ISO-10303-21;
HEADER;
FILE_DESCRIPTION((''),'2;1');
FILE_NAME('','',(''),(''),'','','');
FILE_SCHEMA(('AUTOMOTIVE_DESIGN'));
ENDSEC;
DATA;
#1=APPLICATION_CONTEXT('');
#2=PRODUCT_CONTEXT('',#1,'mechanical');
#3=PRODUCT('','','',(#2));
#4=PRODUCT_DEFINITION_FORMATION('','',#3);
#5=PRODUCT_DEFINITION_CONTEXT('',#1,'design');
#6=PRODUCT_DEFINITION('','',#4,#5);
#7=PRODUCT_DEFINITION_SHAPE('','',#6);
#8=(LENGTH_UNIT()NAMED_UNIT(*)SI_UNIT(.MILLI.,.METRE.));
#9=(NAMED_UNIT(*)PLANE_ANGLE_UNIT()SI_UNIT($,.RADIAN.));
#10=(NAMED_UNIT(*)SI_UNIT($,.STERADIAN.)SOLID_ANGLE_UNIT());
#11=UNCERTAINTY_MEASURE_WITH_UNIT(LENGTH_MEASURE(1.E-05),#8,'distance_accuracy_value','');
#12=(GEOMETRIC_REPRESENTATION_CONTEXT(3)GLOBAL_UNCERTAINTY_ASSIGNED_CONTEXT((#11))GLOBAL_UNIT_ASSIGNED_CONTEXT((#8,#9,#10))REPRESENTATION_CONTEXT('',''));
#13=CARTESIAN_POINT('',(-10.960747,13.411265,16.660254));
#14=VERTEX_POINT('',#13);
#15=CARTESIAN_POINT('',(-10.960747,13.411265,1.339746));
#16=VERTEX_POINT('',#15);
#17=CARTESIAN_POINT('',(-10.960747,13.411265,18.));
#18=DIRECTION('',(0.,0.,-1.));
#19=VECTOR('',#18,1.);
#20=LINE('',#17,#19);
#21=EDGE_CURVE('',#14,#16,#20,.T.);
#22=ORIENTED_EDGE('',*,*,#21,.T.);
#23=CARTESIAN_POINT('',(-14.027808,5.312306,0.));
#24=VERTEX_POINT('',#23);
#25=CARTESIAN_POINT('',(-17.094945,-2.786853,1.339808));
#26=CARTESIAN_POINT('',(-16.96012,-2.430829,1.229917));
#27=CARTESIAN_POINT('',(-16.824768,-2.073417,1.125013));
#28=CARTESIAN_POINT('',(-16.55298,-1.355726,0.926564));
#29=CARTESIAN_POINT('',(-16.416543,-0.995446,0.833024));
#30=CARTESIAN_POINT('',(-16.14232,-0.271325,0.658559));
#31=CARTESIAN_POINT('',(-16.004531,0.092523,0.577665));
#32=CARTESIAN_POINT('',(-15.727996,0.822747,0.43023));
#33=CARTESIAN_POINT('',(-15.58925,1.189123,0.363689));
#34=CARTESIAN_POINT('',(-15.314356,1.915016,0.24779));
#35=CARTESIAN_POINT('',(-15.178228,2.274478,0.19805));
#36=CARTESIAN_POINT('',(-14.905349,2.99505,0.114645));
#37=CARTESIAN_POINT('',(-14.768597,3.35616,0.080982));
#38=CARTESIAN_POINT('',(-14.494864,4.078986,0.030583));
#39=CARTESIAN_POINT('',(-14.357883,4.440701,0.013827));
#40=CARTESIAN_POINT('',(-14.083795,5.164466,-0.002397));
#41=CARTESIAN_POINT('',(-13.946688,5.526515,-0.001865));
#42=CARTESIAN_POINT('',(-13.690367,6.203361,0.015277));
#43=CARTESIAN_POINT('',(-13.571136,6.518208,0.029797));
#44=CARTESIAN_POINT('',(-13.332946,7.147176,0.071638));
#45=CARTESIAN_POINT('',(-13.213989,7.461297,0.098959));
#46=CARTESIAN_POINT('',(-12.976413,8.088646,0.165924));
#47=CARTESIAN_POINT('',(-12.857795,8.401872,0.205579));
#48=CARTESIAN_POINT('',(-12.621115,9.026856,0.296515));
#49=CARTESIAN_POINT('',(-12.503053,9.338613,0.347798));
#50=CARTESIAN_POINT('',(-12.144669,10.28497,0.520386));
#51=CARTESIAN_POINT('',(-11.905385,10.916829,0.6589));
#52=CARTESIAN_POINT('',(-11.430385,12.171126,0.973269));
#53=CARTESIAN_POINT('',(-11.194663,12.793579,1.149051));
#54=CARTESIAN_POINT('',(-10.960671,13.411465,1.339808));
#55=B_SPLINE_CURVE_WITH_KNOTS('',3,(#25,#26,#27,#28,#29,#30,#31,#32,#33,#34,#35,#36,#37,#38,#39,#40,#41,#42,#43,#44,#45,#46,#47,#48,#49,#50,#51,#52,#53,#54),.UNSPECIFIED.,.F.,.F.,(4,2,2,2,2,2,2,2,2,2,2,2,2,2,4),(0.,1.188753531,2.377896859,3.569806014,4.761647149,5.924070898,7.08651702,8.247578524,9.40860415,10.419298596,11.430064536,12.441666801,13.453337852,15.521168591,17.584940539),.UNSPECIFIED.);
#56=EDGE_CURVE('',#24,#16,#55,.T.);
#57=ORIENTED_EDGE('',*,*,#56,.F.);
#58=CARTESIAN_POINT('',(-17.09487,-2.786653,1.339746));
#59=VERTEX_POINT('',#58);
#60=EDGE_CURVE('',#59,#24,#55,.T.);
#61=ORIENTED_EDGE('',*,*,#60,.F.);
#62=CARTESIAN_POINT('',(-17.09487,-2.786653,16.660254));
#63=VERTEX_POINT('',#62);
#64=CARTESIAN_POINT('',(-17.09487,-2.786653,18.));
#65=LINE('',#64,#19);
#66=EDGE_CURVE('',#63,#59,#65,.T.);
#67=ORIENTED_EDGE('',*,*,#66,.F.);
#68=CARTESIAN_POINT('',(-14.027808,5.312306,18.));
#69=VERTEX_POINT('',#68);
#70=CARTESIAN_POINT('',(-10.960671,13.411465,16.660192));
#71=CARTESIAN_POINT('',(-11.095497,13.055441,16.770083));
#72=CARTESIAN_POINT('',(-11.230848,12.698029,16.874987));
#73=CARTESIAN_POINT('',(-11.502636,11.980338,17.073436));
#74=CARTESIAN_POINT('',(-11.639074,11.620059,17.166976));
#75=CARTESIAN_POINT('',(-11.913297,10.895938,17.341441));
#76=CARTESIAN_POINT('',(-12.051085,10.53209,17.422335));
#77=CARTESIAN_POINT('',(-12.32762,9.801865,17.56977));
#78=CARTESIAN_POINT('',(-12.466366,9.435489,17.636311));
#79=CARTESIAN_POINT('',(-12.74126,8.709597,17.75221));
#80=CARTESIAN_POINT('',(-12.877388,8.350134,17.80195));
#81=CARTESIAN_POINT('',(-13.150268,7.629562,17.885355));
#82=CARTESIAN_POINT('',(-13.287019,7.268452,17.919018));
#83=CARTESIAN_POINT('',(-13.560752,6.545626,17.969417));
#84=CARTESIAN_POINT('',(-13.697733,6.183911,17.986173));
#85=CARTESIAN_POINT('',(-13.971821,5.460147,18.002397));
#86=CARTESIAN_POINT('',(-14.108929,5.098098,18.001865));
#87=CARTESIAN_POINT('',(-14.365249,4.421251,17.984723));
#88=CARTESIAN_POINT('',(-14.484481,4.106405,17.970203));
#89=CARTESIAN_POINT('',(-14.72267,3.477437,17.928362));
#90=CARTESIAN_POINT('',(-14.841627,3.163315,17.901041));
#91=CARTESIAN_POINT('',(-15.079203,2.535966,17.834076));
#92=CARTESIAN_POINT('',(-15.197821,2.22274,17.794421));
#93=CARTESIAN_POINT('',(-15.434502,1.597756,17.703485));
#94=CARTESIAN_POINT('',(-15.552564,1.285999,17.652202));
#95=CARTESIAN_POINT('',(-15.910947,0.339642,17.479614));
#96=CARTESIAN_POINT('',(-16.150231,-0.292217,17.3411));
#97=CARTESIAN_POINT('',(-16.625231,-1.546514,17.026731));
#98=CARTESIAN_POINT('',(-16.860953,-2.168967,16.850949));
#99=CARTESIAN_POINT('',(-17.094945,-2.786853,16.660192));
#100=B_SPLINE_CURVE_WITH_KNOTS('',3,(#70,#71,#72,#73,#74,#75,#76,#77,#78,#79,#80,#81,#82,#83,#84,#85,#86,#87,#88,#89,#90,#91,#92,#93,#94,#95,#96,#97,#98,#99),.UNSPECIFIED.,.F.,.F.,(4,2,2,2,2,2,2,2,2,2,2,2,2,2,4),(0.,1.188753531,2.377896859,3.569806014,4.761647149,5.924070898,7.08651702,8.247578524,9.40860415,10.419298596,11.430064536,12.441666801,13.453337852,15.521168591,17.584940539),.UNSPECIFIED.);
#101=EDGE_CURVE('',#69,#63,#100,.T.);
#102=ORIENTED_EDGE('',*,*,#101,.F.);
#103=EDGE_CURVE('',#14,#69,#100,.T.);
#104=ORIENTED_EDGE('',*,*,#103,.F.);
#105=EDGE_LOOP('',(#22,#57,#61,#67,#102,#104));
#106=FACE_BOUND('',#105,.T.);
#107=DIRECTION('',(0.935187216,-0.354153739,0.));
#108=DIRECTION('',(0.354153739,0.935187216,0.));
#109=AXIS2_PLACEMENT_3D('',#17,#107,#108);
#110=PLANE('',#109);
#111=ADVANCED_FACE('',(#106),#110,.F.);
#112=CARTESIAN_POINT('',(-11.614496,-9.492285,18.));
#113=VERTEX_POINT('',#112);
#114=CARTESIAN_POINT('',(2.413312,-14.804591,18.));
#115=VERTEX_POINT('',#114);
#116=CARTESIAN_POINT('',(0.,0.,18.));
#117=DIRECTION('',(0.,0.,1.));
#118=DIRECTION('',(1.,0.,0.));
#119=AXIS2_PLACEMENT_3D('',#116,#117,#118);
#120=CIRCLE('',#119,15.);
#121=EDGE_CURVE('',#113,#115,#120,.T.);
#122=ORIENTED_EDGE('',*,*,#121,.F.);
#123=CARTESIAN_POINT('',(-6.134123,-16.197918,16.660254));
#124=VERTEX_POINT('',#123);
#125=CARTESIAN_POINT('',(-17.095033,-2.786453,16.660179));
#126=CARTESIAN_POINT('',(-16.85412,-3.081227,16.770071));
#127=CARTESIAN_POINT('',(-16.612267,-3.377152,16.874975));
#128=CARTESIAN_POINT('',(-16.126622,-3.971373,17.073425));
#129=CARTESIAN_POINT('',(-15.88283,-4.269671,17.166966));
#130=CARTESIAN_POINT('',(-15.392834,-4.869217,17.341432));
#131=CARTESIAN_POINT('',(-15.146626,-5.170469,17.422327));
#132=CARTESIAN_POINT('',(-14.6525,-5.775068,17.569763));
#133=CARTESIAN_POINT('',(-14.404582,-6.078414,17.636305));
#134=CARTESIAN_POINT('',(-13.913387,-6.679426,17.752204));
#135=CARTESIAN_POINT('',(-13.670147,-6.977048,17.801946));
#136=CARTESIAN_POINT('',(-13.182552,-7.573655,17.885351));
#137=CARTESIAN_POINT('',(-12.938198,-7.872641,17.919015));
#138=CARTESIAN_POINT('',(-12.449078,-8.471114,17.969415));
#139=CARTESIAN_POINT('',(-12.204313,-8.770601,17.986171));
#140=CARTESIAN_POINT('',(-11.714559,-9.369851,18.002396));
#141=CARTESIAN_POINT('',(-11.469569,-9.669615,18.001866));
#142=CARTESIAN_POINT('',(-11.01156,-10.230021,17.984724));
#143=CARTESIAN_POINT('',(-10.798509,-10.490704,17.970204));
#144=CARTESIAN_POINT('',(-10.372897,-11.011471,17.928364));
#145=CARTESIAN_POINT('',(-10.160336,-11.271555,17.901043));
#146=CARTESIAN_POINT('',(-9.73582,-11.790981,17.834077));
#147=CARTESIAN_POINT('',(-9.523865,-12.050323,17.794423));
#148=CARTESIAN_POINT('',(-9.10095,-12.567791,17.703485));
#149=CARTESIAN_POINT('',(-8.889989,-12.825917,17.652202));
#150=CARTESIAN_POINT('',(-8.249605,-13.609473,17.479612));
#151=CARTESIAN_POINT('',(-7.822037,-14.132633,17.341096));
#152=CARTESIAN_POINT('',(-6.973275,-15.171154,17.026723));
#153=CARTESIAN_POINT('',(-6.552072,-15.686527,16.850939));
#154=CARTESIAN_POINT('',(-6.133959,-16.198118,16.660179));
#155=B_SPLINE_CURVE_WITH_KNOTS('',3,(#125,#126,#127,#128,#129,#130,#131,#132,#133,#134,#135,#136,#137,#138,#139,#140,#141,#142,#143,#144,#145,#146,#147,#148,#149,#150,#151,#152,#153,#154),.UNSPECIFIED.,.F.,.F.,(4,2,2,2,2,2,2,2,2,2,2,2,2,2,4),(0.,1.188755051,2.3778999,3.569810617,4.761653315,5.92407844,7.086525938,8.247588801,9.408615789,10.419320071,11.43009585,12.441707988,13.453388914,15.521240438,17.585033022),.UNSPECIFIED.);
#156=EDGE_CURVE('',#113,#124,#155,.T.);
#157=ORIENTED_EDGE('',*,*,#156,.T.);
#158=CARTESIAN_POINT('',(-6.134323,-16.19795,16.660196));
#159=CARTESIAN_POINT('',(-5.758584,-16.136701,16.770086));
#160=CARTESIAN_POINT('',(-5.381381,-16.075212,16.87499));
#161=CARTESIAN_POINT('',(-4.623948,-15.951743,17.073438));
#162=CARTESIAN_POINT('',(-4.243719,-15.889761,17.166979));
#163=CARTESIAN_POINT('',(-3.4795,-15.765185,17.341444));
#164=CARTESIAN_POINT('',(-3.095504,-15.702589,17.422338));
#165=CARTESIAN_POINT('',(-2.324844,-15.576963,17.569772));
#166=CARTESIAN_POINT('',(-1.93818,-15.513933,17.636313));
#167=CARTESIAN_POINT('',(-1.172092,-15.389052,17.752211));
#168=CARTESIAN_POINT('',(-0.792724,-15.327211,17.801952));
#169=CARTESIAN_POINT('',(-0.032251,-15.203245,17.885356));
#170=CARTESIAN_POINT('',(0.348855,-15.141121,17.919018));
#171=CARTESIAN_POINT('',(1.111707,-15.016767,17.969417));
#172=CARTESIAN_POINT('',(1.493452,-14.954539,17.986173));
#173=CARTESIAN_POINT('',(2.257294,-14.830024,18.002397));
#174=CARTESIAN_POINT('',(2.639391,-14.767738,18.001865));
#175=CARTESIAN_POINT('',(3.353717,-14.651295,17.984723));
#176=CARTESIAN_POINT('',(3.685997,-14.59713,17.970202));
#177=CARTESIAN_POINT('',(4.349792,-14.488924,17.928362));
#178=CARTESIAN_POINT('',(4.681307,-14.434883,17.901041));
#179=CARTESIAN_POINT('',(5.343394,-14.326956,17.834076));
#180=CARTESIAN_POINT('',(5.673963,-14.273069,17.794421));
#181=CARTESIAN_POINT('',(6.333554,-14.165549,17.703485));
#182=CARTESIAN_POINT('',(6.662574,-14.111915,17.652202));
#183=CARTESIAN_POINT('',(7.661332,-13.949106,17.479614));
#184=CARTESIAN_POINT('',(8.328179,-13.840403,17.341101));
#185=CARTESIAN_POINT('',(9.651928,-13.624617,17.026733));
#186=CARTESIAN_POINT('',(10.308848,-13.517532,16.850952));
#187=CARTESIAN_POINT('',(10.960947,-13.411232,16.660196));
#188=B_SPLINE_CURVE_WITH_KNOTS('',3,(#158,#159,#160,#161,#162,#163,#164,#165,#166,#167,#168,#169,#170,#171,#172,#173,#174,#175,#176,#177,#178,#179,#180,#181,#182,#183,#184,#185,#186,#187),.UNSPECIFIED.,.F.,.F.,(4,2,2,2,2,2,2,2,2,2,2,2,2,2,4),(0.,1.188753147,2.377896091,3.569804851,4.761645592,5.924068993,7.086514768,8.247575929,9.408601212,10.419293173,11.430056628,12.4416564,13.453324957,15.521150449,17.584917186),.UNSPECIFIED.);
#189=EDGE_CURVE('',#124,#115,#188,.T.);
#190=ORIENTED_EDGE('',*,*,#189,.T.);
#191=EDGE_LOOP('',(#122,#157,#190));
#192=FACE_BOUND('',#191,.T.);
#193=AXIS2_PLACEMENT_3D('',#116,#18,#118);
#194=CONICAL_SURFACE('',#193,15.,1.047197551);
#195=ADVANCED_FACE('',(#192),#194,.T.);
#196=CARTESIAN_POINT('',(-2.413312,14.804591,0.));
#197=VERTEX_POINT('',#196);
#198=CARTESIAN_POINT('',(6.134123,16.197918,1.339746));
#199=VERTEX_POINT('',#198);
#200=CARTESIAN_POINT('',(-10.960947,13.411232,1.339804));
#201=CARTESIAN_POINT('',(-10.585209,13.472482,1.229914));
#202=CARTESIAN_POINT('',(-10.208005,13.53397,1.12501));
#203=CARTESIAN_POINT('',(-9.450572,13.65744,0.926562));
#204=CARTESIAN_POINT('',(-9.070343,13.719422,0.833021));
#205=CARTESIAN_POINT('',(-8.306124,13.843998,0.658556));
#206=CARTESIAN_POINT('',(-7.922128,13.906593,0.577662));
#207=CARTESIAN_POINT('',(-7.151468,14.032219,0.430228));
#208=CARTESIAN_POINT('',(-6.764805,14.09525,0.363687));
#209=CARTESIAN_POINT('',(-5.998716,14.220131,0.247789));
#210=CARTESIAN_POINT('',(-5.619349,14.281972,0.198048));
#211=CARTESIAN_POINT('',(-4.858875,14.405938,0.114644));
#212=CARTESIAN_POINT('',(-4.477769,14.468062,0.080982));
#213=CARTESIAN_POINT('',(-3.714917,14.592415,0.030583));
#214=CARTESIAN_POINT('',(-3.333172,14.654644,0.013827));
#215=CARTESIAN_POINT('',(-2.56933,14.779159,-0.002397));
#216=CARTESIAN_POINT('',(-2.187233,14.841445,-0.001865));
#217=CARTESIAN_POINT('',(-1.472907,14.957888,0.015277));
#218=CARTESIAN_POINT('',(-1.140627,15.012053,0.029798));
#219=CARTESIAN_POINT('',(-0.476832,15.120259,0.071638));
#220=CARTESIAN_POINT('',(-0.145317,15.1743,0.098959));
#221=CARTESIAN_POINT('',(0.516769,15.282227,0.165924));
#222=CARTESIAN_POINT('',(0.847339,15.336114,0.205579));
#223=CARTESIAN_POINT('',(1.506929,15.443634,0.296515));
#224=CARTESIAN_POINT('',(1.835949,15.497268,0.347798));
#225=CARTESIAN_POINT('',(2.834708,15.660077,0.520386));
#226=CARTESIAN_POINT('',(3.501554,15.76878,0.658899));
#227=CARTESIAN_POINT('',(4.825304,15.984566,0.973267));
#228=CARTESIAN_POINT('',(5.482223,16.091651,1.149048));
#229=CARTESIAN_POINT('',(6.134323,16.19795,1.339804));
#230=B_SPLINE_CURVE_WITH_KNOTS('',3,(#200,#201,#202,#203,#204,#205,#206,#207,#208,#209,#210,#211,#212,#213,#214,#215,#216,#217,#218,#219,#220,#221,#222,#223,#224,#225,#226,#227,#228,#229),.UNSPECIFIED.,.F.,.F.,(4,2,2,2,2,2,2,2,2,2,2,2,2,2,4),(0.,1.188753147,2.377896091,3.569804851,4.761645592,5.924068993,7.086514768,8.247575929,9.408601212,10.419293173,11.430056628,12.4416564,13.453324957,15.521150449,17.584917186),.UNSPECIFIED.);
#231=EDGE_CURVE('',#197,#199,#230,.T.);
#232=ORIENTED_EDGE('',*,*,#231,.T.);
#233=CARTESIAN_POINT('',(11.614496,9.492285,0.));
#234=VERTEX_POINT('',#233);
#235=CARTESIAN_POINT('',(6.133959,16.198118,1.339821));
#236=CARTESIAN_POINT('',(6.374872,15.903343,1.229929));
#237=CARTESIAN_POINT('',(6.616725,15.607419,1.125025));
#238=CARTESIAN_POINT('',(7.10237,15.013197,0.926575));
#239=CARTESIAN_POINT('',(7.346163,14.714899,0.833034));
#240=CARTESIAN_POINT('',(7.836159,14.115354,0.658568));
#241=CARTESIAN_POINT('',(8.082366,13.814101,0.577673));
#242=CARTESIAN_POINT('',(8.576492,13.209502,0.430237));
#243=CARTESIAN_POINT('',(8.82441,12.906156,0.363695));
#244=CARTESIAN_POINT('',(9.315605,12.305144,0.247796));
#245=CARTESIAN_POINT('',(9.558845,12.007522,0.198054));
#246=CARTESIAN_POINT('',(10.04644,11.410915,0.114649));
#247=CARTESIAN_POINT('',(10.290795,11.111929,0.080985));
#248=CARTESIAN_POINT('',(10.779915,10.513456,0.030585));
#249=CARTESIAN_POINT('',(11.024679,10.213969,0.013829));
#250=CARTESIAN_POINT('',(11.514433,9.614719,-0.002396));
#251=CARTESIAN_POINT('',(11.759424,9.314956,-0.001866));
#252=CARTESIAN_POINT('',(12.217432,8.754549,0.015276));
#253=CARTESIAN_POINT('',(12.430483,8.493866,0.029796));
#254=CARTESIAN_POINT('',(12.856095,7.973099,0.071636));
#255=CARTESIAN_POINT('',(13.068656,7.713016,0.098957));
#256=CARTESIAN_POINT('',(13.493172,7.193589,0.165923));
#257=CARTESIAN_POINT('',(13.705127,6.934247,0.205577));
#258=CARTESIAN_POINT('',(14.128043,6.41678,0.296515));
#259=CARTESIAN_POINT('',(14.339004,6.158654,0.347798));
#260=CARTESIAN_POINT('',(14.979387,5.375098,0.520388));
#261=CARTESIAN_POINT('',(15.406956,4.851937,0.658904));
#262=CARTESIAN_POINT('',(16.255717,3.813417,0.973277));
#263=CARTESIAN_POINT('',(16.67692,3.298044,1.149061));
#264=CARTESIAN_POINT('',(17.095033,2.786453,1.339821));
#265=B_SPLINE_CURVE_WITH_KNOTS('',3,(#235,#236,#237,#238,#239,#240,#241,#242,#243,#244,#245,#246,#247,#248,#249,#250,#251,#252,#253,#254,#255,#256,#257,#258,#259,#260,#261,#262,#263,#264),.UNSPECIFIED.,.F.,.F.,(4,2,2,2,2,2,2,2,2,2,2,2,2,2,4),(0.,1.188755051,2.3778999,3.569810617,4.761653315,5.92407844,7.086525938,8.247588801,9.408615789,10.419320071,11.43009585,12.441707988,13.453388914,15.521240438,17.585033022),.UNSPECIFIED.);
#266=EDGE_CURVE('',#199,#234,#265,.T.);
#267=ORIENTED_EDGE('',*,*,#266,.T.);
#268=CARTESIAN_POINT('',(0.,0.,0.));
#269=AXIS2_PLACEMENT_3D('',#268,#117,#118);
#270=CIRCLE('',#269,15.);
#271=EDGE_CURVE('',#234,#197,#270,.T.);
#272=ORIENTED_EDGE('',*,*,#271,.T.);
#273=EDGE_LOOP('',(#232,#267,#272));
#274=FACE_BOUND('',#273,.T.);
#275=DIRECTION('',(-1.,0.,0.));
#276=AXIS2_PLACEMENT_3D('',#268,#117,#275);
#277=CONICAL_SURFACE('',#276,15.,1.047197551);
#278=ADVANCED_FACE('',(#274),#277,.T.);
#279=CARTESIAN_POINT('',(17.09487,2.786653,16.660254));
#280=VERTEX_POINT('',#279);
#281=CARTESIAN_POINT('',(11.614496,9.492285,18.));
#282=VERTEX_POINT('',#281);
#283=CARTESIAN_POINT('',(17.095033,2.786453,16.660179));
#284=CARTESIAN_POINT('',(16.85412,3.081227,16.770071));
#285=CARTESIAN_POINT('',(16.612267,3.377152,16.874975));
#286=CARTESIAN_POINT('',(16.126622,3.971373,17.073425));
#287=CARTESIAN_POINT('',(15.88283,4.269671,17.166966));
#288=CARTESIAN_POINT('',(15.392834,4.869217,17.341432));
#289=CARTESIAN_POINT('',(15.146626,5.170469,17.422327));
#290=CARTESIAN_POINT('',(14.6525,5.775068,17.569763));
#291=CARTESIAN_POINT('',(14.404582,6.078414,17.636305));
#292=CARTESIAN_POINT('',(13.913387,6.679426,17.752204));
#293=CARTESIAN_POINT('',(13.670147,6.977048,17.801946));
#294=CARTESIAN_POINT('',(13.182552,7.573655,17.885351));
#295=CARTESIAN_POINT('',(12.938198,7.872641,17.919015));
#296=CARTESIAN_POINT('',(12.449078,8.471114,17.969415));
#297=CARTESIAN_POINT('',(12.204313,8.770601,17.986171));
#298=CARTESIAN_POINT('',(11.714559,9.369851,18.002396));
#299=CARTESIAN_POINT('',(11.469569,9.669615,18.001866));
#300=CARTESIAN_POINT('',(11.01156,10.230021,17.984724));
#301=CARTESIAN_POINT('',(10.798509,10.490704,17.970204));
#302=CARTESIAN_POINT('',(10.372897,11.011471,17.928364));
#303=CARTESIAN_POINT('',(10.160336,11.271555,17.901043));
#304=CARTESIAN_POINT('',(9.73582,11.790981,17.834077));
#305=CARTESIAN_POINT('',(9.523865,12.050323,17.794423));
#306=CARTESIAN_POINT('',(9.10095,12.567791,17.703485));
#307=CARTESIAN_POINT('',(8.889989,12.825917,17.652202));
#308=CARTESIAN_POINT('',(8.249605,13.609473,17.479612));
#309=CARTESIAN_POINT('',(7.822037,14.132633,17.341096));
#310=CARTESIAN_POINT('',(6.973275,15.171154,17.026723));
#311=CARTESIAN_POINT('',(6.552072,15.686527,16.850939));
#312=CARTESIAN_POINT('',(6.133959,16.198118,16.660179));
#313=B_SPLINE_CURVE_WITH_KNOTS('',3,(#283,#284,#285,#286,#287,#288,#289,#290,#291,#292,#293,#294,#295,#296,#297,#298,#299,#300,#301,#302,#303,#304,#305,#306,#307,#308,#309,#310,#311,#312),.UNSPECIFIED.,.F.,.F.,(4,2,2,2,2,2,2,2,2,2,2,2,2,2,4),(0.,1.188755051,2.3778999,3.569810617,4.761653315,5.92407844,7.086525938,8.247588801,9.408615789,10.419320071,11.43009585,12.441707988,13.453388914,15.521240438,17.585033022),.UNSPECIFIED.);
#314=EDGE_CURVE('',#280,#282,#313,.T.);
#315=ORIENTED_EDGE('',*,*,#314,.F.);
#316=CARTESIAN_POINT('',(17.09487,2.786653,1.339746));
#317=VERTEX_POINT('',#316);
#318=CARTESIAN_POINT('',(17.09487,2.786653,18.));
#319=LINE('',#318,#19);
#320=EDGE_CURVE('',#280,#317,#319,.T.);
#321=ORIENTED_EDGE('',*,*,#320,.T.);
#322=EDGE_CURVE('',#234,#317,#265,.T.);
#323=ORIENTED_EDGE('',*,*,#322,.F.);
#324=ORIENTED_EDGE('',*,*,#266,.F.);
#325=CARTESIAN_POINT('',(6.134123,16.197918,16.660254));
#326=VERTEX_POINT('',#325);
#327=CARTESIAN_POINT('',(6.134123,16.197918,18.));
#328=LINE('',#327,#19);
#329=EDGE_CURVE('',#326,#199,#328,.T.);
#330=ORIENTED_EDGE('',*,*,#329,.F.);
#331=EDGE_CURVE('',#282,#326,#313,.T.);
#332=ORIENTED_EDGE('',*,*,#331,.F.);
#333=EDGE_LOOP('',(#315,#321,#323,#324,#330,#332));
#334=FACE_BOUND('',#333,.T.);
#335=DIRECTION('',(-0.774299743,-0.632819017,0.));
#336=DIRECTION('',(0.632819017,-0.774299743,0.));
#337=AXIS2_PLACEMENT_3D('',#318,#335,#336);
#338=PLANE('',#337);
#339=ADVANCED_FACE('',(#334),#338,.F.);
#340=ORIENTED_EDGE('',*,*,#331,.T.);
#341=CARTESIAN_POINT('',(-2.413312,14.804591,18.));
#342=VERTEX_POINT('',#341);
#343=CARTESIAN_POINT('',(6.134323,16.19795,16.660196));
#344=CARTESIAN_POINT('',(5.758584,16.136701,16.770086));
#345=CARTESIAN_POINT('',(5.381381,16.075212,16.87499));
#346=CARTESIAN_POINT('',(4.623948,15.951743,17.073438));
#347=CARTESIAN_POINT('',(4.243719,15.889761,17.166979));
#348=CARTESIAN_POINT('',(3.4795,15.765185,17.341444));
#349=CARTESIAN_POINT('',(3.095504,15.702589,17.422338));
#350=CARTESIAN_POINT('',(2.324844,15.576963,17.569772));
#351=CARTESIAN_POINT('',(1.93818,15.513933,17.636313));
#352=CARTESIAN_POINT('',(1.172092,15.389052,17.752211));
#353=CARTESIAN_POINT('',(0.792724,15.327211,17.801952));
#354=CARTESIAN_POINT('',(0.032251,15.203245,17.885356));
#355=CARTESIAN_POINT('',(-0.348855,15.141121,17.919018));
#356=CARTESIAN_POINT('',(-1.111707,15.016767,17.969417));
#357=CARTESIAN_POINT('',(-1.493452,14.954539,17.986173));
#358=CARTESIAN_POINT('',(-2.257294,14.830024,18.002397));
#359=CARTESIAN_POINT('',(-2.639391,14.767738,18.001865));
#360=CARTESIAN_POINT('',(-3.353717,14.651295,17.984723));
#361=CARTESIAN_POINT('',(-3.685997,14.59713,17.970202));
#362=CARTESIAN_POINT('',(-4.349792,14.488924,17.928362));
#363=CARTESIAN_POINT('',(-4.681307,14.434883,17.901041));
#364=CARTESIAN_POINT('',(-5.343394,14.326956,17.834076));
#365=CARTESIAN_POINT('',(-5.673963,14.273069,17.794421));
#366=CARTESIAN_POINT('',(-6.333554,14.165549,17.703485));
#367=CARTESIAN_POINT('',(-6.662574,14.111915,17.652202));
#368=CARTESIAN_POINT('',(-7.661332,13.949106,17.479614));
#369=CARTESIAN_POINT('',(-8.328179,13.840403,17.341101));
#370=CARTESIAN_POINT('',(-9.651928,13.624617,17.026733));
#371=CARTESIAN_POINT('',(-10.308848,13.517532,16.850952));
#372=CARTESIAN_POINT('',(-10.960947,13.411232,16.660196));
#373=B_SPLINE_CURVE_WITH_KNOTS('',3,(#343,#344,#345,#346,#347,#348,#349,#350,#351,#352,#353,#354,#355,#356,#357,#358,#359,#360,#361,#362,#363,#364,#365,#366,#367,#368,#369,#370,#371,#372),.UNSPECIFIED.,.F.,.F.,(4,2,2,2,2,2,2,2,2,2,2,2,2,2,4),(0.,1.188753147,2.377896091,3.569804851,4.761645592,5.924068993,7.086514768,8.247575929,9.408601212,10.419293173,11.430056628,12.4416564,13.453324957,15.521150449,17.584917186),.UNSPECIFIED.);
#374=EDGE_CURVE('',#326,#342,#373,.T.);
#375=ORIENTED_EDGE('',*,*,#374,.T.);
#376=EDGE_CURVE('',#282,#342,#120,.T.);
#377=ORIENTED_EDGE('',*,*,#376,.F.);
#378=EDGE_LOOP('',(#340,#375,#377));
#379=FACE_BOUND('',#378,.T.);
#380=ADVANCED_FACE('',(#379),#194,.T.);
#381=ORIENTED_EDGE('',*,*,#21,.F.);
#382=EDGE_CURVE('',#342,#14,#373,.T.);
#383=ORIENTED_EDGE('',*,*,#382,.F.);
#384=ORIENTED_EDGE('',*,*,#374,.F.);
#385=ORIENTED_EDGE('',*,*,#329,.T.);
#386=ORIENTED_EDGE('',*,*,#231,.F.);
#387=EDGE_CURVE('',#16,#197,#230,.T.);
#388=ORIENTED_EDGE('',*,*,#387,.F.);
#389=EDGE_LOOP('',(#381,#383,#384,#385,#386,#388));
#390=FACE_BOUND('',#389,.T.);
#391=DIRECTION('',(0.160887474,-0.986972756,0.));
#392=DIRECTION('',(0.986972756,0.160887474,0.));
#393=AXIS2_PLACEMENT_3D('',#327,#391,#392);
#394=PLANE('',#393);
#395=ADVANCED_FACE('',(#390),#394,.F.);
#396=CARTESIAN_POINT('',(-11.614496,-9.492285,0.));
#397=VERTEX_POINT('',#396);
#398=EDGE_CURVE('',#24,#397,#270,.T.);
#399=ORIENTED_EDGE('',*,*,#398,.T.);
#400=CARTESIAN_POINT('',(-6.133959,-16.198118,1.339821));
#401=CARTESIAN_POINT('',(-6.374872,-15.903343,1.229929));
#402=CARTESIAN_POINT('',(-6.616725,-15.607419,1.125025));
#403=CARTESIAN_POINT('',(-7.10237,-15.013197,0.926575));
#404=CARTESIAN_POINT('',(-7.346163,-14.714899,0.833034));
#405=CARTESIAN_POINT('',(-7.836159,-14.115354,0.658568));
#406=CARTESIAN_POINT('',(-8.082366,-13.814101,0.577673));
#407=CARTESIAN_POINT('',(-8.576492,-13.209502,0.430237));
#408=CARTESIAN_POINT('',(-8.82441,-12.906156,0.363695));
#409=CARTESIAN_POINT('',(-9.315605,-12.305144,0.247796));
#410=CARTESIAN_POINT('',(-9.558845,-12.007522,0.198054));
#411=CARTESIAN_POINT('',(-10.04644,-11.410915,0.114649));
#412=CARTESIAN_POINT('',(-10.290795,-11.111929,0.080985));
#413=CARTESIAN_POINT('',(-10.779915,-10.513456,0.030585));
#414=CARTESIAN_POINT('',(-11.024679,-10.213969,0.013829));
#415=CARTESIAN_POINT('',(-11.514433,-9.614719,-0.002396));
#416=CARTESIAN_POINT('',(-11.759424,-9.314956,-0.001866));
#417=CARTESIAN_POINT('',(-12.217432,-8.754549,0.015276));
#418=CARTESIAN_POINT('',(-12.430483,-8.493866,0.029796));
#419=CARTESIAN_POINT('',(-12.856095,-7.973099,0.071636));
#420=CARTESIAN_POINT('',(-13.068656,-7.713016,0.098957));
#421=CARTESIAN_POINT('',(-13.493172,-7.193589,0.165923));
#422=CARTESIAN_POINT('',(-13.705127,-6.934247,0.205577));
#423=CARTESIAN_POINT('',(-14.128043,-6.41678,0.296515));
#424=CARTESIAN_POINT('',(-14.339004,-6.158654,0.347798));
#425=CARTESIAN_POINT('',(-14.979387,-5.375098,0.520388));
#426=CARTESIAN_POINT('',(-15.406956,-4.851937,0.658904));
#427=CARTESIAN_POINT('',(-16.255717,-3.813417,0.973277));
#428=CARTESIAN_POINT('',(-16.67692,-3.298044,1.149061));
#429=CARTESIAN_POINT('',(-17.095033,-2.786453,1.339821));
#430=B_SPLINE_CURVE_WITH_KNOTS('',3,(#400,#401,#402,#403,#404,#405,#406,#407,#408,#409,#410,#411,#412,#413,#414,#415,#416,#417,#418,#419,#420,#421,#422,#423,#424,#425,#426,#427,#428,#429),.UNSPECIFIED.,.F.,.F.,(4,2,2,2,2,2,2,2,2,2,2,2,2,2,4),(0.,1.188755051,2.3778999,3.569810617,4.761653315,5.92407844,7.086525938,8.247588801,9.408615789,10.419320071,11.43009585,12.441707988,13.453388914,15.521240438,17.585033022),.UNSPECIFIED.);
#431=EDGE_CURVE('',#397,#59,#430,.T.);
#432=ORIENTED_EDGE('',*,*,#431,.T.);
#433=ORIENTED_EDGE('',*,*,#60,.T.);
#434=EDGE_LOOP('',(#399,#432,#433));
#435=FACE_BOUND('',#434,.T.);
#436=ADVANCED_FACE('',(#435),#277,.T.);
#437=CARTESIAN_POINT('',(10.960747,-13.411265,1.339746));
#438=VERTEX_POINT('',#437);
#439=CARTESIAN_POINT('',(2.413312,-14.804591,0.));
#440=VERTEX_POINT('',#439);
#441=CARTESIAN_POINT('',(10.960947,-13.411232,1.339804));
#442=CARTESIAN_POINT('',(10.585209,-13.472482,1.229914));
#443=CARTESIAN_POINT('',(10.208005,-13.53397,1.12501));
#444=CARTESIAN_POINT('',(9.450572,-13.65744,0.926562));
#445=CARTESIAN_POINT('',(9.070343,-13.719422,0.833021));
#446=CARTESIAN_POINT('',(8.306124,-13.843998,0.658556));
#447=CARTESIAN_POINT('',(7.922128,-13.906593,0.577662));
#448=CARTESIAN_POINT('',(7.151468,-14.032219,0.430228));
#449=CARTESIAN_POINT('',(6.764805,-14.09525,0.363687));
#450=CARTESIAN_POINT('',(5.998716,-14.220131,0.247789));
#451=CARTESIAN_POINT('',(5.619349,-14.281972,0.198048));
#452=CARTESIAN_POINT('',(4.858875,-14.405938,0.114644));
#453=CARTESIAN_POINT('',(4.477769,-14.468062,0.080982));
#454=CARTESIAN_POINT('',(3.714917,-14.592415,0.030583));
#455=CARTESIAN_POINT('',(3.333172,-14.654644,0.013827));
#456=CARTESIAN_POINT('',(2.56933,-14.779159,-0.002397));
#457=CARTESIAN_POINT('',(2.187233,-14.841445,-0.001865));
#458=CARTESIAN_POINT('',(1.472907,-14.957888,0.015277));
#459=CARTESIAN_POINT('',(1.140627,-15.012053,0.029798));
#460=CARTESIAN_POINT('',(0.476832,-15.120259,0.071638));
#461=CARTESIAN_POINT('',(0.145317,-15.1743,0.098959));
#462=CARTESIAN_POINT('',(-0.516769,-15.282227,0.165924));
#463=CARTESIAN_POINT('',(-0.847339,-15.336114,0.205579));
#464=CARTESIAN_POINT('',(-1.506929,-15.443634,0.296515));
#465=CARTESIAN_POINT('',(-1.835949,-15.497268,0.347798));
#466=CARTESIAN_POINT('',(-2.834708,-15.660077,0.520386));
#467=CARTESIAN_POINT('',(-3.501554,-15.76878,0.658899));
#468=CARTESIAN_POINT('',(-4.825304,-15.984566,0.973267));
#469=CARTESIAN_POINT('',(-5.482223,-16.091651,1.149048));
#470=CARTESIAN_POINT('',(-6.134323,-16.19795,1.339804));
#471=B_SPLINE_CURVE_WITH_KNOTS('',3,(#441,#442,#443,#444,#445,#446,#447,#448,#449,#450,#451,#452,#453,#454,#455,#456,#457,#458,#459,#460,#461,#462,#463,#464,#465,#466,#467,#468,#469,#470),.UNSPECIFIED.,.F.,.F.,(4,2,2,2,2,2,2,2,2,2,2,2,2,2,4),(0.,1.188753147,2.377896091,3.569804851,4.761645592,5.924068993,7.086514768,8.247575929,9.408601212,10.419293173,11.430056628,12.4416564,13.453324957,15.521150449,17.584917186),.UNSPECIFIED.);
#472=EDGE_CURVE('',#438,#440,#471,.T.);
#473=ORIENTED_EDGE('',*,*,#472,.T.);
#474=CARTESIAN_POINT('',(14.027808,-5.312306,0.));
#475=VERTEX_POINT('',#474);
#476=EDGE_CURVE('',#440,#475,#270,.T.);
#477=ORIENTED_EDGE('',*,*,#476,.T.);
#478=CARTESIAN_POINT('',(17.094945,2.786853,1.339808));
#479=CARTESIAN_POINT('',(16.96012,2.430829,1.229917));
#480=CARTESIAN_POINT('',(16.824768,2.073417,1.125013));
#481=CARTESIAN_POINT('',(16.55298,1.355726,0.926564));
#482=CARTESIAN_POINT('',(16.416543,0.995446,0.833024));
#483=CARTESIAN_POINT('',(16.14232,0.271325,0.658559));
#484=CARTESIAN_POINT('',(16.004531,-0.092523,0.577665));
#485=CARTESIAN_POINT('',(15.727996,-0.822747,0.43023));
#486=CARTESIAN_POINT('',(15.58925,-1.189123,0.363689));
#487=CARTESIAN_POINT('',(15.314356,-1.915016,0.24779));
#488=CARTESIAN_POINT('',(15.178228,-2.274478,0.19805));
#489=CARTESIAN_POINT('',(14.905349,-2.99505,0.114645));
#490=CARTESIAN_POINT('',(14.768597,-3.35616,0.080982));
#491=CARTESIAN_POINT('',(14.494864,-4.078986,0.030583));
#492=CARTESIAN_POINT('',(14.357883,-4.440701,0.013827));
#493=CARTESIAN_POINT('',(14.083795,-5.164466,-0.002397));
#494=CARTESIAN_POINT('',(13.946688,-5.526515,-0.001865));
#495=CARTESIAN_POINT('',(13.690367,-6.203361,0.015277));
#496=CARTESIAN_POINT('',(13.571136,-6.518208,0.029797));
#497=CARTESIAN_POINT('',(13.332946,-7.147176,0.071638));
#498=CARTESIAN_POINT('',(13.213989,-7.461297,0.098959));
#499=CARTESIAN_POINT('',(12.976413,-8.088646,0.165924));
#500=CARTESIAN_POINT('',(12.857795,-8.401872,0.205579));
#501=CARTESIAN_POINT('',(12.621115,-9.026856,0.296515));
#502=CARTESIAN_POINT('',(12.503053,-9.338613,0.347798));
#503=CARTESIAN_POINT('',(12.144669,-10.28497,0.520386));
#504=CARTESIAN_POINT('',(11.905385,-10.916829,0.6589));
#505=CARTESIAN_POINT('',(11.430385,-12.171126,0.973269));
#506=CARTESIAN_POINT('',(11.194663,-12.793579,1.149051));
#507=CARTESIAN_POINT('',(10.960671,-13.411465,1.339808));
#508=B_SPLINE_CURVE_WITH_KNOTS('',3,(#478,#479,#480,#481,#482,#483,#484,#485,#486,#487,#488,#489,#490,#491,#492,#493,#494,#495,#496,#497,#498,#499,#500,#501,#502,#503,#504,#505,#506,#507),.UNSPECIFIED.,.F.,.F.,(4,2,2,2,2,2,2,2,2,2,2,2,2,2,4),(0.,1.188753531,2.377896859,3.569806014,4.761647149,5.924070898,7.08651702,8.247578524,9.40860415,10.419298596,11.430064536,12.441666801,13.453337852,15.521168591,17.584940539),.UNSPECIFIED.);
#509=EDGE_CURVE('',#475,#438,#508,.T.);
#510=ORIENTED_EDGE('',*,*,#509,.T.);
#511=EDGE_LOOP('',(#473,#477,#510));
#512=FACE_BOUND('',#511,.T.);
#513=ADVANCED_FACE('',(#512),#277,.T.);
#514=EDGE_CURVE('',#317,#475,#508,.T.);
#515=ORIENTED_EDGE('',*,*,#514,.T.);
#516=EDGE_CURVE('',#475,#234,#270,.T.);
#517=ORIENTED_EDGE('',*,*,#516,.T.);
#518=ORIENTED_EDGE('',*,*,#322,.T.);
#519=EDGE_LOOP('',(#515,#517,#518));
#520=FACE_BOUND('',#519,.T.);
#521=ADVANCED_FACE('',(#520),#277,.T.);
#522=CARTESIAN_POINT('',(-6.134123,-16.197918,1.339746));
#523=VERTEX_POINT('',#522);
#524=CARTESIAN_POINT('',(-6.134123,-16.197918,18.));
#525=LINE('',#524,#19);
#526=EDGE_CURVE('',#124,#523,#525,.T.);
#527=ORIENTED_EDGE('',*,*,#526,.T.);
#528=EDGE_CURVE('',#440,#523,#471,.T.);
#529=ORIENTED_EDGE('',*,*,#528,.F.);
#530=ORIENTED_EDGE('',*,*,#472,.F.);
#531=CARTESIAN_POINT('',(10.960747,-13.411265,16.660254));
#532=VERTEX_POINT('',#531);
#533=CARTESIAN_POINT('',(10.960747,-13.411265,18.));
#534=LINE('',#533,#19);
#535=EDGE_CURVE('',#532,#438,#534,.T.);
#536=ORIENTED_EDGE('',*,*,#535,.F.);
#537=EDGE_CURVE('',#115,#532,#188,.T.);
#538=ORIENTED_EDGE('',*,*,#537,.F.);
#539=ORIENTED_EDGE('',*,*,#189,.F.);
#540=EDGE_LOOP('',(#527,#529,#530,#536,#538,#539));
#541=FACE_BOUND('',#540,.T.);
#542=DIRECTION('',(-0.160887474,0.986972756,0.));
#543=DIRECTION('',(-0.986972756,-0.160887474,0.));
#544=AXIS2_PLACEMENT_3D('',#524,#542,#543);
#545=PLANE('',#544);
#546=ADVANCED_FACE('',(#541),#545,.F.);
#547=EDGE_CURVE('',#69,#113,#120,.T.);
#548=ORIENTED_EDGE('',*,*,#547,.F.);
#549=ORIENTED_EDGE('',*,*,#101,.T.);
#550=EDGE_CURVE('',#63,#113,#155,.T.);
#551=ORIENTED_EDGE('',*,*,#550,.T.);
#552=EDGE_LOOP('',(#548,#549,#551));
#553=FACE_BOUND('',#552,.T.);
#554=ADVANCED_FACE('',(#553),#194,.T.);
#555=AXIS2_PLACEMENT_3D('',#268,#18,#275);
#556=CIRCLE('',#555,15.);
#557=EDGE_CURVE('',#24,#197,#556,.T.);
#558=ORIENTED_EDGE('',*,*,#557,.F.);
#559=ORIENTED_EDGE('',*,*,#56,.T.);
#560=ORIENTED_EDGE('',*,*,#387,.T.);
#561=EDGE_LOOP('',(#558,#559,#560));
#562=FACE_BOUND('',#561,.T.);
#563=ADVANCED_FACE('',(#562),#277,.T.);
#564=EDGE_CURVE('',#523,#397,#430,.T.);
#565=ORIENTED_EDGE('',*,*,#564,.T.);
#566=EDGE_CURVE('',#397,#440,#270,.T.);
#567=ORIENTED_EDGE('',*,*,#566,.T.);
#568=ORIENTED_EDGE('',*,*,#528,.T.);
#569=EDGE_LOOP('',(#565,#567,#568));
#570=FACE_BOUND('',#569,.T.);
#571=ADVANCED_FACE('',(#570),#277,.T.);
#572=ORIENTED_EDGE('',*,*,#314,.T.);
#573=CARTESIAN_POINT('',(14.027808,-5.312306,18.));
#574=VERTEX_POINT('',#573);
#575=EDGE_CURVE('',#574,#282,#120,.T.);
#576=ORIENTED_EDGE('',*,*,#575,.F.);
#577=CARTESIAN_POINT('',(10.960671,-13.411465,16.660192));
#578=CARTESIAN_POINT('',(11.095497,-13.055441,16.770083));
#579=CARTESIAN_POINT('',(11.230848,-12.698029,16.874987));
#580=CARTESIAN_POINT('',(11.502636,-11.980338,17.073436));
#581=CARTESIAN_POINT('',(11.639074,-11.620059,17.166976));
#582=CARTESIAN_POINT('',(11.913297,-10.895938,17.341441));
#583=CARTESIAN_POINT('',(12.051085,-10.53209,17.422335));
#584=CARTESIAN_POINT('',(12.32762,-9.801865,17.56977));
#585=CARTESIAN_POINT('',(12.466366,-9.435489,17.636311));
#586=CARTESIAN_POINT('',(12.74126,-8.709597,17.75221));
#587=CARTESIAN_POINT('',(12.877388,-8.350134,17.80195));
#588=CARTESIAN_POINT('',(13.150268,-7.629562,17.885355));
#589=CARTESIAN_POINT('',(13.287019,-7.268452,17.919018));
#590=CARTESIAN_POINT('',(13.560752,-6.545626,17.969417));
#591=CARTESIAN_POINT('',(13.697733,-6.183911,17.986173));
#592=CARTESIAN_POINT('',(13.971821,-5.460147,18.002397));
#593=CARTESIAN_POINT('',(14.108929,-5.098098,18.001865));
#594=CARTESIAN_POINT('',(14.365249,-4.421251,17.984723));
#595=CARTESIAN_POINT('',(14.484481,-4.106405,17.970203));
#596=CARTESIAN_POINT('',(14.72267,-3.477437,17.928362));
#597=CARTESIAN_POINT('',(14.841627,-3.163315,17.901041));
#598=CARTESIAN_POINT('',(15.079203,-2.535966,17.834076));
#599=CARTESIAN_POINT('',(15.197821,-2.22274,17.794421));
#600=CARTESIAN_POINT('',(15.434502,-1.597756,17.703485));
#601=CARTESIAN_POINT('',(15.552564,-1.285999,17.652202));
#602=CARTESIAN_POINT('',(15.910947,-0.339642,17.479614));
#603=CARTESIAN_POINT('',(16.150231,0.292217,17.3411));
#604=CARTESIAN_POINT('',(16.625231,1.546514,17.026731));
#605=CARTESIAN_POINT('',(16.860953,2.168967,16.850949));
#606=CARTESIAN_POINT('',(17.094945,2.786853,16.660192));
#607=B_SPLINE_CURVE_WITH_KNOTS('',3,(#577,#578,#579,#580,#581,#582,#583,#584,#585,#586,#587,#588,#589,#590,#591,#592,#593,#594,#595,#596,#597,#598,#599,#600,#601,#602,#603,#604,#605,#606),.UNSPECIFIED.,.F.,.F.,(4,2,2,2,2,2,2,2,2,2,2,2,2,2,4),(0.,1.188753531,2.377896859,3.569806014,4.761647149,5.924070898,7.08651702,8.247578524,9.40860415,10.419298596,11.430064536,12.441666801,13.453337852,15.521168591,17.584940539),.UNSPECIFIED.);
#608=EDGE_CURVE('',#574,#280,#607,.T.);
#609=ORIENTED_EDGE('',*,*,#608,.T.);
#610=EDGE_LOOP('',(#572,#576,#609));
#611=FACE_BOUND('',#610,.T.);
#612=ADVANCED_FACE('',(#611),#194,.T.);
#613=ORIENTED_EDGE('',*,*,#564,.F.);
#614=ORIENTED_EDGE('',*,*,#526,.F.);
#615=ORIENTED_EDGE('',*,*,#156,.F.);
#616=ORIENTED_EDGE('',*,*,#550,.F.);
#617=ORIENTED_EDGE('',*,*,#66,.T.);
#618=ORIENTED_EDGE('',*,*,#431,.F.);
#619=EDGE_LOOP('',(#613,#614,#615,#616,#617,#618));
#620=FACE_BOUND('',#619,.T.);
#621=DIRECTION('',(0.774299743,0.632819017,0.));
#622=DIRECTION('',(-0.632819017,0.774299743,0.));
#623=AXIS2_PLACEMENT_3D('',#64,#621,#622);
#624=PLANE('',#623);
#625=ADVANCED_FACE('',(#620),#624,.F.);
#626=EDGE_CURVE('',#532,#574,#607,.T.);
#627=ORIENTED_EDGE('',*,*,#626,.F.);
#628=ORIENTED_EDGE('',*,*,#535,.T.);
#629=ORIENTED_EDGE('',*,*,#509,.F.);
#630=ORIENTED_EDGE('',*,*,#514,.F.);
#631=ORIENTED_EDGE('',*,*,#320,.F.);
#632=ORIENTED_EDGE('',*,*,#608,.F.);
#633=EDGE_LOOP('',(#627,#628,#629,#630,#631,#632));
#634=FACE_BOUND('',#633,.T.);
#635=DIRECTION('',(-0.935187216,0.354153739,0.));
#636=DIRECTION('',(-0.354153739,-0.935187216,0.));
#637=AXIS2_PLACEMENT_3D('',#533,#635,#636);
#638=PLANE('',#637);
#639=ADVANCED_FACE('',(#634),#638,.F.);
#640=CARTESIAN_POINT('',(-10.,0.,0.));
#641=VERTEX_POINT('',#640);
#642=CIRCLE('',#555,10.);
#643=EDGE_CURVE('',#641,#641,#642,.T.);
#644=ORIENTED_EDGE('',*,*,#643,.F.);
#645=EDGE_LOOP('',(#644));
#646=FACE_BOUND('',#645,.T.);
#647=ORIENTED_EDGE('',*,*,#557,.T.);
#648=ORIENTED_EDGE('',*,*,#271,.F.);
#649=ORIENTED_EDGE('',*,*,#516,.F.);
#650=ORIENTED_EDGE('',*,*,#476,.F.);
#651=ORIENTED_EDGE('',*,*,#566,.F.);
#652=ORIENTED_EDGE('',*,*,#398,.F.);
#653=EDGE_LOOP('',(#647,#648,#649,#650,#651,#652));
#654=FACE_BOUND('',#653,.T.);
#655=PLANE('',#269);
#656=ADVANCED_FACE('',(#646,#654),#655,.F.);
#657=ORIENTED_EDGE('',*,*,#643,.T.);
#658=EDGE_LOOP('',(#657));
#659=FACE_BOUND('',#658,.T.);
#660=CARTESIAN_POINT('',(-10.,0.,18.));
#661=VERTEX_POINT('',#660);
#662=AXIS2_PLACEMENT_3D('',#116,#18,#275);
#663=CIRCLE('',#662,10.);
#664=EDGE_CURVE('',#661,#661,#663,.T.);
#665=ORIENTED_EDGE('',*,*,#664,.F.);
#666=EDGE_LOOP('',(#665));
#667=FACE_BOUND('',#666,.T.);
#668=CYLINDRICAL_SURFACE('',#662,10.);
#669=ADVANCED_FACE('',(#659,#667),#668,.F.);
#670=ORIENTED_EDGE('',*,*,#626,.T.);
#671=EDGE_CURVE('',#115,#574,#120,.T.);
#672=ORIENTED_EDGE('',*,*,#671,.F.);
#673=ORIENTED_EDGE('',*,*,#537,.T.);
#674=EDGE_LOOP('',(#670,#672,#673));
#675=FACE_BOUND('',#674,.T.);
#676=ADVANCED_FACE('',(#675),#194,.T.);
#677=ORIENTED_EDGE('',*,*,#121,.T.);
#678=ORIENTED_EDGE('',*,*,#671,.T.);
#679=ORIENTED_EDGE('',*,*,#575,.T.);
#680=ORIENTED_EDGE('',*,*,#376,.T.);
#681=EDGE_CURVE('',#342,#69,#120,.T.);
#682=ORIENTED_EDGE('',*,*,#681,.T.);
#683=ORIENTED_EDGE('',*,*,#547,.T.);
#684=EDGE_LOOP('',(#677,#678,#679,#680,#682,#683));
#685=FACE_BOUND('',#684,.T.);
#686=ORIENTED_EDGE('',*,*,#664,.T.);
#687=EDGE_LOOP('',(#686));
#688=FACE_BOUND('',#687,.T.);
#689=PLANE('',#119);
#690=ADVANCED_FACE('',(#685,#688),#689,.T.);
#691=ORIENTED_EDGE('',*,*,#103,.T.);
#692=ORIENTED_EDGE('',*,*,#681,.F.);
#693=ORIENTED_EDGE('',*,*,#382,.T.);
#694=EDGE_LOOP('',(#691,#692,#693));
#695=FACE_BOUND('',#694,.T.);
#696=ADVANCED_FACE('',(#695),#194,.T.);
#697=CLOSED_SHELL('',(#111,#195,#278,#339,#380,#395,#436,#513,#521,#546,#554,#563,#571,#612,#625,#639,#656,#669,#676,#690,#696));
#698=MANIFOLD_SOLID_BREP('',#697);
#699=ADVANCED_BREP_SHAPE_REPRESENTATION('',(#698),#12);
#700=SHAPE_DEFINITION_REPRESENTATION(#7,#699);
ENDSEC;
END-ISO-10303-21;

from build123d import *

# Parameters (mm, degrees)
BOSS_EXTRUDE1_DEPTH = 18
SKETCH2_OUTSIDE_W   = 108.628
SKETCH2_OUTSIDE_H   = 106.834
SKETCH2_OUTSIDE_R   = 15
CUT_EXTRUDE1_DEPTH  = 18
CUT_EXTRUDE1_DRAFT  = -60
SKETCH3_OUTSIDE_W   = 108.628
SKETCH3_OUTSIDE_H   = 106.834
SKETCH3_OUTSIDE_R   = 15
CUT_EXTRUDE2_DEPTH  = 18
CUT_EXTRUDE2_DRAFT  = -60
SKETCH4_R           = 10
CUT_EXTRUDE3_DEPTH  = 30.641307412


with BuildPart() as part:
    # Sketch1 → Boss-Extrude1 (new body)
    with BuildSketch(Plane.XY):
        Polygon((6.134122691, 16.197917731), (-10.960746898, 13.411264946), (-17.094869589, -2.786652785), (-6.134122691, -16.197917731), (10.960746898, -13.411264946), (17.094869589, 2.786652785), align=None)
    extrude(amount=BOSS_EXTRUDE1_DEPTH)


with BuildPart() as cut_extrude1_tool:
    # Sketch2 outside → Cut-Extrude1 (with draft: the straight prism first)
    with BuildSketch(Plane.XY.offset(18)):
        Rectangle(SKETCH2_OUTSIDE_W, SKETCH2_OUTSIDE_H)
        Circle(SKETCH2_OUTSIDE_R, mode=Mode.SUBTRACT)
    extrude(amount=-CUT_EXTRUDE1_DEPTH)
    # Cut-Extrude1: the draft: its side faces are tilted about the plane it starts from
    cut_extrude1_sides = [cut_extrude1_tool.faces().sort_by_distance(p)[0] for p in [
        (0, -53.417, 9),
        (54.314, 0, 9),
        (0, 53.417, 9),
        (-54.314, 0, 9),
        (-15, 0, 9),
    ]]
    draft(cut_extrude1_sides, Plane.XY.offset(18), CUT_EXTRUDE1_DRAFT)


with BuildPart() as part_1:
    add(part.part)

    # Cut-Extrude1: cut by cut_extrude1_tool
    add(cut_extrude1_tool.part, mode=Mode.SUBTRACT)


with BuildPart() as cut_extrude2_tool:
    # Sketch3 outside → Cut-Extrude2 (with draft: the straight prism first)
    with BuildSketch(Plane(origin=(0, 0, 0), x_dir=(-1, 0, 0), z_dir=(0, 0, -1))):
        Rectangle(SKETCH3_OUTSIDE_W, SKETCH3_OUTSIDE_H)
        Circle(SKETCH3_OUTSIDE_R, mode=Mode.SUBTRACT)
    extrude(amount=-CUT_EXTRUDE2_DEPTH)
    # Cut-Extrude2: the draft: its side faces are tilted about the plane it starts from
    cut_extrude2_sides = [cut_extrude2_tool.faces().sort_by_distance(p)[0] for p in [
        (0, -53.417, 9),
        (-54.314, 0, 9),
        (0, 53.417, 9),
        (54.314, 0, 9),
        (15, 0, 9),
    ]]
    draft(cut_extrude2_sides, Plane(origin=(0, 0, 0), x_dir=(-1, 0, 0), z_dir=(0, 0, -1)), CUT_EXTRUDE2_DRAFT)


with BuildPart() as part_2:
    add(part_1.part)

    # Cut-Extrude2: cut by cut_extrude2_tool
    add(cut_extrude2_tool.part, mode=Mode.SUBTRACT)

    # Sketch4 → Cut-Extrude3 (cut, through all)
    with BuildSketch(Plane(origin=(0, 0, 0), x_dir=(-1, 0, 0), z_dir=(0, 0, -1))):
        Circle(SKETCH4_R)
    extrude(amount=-CUT_EXTRUDE3_DEPTH, mode=Mode.SUBTRACT)


solid = part_2.part
